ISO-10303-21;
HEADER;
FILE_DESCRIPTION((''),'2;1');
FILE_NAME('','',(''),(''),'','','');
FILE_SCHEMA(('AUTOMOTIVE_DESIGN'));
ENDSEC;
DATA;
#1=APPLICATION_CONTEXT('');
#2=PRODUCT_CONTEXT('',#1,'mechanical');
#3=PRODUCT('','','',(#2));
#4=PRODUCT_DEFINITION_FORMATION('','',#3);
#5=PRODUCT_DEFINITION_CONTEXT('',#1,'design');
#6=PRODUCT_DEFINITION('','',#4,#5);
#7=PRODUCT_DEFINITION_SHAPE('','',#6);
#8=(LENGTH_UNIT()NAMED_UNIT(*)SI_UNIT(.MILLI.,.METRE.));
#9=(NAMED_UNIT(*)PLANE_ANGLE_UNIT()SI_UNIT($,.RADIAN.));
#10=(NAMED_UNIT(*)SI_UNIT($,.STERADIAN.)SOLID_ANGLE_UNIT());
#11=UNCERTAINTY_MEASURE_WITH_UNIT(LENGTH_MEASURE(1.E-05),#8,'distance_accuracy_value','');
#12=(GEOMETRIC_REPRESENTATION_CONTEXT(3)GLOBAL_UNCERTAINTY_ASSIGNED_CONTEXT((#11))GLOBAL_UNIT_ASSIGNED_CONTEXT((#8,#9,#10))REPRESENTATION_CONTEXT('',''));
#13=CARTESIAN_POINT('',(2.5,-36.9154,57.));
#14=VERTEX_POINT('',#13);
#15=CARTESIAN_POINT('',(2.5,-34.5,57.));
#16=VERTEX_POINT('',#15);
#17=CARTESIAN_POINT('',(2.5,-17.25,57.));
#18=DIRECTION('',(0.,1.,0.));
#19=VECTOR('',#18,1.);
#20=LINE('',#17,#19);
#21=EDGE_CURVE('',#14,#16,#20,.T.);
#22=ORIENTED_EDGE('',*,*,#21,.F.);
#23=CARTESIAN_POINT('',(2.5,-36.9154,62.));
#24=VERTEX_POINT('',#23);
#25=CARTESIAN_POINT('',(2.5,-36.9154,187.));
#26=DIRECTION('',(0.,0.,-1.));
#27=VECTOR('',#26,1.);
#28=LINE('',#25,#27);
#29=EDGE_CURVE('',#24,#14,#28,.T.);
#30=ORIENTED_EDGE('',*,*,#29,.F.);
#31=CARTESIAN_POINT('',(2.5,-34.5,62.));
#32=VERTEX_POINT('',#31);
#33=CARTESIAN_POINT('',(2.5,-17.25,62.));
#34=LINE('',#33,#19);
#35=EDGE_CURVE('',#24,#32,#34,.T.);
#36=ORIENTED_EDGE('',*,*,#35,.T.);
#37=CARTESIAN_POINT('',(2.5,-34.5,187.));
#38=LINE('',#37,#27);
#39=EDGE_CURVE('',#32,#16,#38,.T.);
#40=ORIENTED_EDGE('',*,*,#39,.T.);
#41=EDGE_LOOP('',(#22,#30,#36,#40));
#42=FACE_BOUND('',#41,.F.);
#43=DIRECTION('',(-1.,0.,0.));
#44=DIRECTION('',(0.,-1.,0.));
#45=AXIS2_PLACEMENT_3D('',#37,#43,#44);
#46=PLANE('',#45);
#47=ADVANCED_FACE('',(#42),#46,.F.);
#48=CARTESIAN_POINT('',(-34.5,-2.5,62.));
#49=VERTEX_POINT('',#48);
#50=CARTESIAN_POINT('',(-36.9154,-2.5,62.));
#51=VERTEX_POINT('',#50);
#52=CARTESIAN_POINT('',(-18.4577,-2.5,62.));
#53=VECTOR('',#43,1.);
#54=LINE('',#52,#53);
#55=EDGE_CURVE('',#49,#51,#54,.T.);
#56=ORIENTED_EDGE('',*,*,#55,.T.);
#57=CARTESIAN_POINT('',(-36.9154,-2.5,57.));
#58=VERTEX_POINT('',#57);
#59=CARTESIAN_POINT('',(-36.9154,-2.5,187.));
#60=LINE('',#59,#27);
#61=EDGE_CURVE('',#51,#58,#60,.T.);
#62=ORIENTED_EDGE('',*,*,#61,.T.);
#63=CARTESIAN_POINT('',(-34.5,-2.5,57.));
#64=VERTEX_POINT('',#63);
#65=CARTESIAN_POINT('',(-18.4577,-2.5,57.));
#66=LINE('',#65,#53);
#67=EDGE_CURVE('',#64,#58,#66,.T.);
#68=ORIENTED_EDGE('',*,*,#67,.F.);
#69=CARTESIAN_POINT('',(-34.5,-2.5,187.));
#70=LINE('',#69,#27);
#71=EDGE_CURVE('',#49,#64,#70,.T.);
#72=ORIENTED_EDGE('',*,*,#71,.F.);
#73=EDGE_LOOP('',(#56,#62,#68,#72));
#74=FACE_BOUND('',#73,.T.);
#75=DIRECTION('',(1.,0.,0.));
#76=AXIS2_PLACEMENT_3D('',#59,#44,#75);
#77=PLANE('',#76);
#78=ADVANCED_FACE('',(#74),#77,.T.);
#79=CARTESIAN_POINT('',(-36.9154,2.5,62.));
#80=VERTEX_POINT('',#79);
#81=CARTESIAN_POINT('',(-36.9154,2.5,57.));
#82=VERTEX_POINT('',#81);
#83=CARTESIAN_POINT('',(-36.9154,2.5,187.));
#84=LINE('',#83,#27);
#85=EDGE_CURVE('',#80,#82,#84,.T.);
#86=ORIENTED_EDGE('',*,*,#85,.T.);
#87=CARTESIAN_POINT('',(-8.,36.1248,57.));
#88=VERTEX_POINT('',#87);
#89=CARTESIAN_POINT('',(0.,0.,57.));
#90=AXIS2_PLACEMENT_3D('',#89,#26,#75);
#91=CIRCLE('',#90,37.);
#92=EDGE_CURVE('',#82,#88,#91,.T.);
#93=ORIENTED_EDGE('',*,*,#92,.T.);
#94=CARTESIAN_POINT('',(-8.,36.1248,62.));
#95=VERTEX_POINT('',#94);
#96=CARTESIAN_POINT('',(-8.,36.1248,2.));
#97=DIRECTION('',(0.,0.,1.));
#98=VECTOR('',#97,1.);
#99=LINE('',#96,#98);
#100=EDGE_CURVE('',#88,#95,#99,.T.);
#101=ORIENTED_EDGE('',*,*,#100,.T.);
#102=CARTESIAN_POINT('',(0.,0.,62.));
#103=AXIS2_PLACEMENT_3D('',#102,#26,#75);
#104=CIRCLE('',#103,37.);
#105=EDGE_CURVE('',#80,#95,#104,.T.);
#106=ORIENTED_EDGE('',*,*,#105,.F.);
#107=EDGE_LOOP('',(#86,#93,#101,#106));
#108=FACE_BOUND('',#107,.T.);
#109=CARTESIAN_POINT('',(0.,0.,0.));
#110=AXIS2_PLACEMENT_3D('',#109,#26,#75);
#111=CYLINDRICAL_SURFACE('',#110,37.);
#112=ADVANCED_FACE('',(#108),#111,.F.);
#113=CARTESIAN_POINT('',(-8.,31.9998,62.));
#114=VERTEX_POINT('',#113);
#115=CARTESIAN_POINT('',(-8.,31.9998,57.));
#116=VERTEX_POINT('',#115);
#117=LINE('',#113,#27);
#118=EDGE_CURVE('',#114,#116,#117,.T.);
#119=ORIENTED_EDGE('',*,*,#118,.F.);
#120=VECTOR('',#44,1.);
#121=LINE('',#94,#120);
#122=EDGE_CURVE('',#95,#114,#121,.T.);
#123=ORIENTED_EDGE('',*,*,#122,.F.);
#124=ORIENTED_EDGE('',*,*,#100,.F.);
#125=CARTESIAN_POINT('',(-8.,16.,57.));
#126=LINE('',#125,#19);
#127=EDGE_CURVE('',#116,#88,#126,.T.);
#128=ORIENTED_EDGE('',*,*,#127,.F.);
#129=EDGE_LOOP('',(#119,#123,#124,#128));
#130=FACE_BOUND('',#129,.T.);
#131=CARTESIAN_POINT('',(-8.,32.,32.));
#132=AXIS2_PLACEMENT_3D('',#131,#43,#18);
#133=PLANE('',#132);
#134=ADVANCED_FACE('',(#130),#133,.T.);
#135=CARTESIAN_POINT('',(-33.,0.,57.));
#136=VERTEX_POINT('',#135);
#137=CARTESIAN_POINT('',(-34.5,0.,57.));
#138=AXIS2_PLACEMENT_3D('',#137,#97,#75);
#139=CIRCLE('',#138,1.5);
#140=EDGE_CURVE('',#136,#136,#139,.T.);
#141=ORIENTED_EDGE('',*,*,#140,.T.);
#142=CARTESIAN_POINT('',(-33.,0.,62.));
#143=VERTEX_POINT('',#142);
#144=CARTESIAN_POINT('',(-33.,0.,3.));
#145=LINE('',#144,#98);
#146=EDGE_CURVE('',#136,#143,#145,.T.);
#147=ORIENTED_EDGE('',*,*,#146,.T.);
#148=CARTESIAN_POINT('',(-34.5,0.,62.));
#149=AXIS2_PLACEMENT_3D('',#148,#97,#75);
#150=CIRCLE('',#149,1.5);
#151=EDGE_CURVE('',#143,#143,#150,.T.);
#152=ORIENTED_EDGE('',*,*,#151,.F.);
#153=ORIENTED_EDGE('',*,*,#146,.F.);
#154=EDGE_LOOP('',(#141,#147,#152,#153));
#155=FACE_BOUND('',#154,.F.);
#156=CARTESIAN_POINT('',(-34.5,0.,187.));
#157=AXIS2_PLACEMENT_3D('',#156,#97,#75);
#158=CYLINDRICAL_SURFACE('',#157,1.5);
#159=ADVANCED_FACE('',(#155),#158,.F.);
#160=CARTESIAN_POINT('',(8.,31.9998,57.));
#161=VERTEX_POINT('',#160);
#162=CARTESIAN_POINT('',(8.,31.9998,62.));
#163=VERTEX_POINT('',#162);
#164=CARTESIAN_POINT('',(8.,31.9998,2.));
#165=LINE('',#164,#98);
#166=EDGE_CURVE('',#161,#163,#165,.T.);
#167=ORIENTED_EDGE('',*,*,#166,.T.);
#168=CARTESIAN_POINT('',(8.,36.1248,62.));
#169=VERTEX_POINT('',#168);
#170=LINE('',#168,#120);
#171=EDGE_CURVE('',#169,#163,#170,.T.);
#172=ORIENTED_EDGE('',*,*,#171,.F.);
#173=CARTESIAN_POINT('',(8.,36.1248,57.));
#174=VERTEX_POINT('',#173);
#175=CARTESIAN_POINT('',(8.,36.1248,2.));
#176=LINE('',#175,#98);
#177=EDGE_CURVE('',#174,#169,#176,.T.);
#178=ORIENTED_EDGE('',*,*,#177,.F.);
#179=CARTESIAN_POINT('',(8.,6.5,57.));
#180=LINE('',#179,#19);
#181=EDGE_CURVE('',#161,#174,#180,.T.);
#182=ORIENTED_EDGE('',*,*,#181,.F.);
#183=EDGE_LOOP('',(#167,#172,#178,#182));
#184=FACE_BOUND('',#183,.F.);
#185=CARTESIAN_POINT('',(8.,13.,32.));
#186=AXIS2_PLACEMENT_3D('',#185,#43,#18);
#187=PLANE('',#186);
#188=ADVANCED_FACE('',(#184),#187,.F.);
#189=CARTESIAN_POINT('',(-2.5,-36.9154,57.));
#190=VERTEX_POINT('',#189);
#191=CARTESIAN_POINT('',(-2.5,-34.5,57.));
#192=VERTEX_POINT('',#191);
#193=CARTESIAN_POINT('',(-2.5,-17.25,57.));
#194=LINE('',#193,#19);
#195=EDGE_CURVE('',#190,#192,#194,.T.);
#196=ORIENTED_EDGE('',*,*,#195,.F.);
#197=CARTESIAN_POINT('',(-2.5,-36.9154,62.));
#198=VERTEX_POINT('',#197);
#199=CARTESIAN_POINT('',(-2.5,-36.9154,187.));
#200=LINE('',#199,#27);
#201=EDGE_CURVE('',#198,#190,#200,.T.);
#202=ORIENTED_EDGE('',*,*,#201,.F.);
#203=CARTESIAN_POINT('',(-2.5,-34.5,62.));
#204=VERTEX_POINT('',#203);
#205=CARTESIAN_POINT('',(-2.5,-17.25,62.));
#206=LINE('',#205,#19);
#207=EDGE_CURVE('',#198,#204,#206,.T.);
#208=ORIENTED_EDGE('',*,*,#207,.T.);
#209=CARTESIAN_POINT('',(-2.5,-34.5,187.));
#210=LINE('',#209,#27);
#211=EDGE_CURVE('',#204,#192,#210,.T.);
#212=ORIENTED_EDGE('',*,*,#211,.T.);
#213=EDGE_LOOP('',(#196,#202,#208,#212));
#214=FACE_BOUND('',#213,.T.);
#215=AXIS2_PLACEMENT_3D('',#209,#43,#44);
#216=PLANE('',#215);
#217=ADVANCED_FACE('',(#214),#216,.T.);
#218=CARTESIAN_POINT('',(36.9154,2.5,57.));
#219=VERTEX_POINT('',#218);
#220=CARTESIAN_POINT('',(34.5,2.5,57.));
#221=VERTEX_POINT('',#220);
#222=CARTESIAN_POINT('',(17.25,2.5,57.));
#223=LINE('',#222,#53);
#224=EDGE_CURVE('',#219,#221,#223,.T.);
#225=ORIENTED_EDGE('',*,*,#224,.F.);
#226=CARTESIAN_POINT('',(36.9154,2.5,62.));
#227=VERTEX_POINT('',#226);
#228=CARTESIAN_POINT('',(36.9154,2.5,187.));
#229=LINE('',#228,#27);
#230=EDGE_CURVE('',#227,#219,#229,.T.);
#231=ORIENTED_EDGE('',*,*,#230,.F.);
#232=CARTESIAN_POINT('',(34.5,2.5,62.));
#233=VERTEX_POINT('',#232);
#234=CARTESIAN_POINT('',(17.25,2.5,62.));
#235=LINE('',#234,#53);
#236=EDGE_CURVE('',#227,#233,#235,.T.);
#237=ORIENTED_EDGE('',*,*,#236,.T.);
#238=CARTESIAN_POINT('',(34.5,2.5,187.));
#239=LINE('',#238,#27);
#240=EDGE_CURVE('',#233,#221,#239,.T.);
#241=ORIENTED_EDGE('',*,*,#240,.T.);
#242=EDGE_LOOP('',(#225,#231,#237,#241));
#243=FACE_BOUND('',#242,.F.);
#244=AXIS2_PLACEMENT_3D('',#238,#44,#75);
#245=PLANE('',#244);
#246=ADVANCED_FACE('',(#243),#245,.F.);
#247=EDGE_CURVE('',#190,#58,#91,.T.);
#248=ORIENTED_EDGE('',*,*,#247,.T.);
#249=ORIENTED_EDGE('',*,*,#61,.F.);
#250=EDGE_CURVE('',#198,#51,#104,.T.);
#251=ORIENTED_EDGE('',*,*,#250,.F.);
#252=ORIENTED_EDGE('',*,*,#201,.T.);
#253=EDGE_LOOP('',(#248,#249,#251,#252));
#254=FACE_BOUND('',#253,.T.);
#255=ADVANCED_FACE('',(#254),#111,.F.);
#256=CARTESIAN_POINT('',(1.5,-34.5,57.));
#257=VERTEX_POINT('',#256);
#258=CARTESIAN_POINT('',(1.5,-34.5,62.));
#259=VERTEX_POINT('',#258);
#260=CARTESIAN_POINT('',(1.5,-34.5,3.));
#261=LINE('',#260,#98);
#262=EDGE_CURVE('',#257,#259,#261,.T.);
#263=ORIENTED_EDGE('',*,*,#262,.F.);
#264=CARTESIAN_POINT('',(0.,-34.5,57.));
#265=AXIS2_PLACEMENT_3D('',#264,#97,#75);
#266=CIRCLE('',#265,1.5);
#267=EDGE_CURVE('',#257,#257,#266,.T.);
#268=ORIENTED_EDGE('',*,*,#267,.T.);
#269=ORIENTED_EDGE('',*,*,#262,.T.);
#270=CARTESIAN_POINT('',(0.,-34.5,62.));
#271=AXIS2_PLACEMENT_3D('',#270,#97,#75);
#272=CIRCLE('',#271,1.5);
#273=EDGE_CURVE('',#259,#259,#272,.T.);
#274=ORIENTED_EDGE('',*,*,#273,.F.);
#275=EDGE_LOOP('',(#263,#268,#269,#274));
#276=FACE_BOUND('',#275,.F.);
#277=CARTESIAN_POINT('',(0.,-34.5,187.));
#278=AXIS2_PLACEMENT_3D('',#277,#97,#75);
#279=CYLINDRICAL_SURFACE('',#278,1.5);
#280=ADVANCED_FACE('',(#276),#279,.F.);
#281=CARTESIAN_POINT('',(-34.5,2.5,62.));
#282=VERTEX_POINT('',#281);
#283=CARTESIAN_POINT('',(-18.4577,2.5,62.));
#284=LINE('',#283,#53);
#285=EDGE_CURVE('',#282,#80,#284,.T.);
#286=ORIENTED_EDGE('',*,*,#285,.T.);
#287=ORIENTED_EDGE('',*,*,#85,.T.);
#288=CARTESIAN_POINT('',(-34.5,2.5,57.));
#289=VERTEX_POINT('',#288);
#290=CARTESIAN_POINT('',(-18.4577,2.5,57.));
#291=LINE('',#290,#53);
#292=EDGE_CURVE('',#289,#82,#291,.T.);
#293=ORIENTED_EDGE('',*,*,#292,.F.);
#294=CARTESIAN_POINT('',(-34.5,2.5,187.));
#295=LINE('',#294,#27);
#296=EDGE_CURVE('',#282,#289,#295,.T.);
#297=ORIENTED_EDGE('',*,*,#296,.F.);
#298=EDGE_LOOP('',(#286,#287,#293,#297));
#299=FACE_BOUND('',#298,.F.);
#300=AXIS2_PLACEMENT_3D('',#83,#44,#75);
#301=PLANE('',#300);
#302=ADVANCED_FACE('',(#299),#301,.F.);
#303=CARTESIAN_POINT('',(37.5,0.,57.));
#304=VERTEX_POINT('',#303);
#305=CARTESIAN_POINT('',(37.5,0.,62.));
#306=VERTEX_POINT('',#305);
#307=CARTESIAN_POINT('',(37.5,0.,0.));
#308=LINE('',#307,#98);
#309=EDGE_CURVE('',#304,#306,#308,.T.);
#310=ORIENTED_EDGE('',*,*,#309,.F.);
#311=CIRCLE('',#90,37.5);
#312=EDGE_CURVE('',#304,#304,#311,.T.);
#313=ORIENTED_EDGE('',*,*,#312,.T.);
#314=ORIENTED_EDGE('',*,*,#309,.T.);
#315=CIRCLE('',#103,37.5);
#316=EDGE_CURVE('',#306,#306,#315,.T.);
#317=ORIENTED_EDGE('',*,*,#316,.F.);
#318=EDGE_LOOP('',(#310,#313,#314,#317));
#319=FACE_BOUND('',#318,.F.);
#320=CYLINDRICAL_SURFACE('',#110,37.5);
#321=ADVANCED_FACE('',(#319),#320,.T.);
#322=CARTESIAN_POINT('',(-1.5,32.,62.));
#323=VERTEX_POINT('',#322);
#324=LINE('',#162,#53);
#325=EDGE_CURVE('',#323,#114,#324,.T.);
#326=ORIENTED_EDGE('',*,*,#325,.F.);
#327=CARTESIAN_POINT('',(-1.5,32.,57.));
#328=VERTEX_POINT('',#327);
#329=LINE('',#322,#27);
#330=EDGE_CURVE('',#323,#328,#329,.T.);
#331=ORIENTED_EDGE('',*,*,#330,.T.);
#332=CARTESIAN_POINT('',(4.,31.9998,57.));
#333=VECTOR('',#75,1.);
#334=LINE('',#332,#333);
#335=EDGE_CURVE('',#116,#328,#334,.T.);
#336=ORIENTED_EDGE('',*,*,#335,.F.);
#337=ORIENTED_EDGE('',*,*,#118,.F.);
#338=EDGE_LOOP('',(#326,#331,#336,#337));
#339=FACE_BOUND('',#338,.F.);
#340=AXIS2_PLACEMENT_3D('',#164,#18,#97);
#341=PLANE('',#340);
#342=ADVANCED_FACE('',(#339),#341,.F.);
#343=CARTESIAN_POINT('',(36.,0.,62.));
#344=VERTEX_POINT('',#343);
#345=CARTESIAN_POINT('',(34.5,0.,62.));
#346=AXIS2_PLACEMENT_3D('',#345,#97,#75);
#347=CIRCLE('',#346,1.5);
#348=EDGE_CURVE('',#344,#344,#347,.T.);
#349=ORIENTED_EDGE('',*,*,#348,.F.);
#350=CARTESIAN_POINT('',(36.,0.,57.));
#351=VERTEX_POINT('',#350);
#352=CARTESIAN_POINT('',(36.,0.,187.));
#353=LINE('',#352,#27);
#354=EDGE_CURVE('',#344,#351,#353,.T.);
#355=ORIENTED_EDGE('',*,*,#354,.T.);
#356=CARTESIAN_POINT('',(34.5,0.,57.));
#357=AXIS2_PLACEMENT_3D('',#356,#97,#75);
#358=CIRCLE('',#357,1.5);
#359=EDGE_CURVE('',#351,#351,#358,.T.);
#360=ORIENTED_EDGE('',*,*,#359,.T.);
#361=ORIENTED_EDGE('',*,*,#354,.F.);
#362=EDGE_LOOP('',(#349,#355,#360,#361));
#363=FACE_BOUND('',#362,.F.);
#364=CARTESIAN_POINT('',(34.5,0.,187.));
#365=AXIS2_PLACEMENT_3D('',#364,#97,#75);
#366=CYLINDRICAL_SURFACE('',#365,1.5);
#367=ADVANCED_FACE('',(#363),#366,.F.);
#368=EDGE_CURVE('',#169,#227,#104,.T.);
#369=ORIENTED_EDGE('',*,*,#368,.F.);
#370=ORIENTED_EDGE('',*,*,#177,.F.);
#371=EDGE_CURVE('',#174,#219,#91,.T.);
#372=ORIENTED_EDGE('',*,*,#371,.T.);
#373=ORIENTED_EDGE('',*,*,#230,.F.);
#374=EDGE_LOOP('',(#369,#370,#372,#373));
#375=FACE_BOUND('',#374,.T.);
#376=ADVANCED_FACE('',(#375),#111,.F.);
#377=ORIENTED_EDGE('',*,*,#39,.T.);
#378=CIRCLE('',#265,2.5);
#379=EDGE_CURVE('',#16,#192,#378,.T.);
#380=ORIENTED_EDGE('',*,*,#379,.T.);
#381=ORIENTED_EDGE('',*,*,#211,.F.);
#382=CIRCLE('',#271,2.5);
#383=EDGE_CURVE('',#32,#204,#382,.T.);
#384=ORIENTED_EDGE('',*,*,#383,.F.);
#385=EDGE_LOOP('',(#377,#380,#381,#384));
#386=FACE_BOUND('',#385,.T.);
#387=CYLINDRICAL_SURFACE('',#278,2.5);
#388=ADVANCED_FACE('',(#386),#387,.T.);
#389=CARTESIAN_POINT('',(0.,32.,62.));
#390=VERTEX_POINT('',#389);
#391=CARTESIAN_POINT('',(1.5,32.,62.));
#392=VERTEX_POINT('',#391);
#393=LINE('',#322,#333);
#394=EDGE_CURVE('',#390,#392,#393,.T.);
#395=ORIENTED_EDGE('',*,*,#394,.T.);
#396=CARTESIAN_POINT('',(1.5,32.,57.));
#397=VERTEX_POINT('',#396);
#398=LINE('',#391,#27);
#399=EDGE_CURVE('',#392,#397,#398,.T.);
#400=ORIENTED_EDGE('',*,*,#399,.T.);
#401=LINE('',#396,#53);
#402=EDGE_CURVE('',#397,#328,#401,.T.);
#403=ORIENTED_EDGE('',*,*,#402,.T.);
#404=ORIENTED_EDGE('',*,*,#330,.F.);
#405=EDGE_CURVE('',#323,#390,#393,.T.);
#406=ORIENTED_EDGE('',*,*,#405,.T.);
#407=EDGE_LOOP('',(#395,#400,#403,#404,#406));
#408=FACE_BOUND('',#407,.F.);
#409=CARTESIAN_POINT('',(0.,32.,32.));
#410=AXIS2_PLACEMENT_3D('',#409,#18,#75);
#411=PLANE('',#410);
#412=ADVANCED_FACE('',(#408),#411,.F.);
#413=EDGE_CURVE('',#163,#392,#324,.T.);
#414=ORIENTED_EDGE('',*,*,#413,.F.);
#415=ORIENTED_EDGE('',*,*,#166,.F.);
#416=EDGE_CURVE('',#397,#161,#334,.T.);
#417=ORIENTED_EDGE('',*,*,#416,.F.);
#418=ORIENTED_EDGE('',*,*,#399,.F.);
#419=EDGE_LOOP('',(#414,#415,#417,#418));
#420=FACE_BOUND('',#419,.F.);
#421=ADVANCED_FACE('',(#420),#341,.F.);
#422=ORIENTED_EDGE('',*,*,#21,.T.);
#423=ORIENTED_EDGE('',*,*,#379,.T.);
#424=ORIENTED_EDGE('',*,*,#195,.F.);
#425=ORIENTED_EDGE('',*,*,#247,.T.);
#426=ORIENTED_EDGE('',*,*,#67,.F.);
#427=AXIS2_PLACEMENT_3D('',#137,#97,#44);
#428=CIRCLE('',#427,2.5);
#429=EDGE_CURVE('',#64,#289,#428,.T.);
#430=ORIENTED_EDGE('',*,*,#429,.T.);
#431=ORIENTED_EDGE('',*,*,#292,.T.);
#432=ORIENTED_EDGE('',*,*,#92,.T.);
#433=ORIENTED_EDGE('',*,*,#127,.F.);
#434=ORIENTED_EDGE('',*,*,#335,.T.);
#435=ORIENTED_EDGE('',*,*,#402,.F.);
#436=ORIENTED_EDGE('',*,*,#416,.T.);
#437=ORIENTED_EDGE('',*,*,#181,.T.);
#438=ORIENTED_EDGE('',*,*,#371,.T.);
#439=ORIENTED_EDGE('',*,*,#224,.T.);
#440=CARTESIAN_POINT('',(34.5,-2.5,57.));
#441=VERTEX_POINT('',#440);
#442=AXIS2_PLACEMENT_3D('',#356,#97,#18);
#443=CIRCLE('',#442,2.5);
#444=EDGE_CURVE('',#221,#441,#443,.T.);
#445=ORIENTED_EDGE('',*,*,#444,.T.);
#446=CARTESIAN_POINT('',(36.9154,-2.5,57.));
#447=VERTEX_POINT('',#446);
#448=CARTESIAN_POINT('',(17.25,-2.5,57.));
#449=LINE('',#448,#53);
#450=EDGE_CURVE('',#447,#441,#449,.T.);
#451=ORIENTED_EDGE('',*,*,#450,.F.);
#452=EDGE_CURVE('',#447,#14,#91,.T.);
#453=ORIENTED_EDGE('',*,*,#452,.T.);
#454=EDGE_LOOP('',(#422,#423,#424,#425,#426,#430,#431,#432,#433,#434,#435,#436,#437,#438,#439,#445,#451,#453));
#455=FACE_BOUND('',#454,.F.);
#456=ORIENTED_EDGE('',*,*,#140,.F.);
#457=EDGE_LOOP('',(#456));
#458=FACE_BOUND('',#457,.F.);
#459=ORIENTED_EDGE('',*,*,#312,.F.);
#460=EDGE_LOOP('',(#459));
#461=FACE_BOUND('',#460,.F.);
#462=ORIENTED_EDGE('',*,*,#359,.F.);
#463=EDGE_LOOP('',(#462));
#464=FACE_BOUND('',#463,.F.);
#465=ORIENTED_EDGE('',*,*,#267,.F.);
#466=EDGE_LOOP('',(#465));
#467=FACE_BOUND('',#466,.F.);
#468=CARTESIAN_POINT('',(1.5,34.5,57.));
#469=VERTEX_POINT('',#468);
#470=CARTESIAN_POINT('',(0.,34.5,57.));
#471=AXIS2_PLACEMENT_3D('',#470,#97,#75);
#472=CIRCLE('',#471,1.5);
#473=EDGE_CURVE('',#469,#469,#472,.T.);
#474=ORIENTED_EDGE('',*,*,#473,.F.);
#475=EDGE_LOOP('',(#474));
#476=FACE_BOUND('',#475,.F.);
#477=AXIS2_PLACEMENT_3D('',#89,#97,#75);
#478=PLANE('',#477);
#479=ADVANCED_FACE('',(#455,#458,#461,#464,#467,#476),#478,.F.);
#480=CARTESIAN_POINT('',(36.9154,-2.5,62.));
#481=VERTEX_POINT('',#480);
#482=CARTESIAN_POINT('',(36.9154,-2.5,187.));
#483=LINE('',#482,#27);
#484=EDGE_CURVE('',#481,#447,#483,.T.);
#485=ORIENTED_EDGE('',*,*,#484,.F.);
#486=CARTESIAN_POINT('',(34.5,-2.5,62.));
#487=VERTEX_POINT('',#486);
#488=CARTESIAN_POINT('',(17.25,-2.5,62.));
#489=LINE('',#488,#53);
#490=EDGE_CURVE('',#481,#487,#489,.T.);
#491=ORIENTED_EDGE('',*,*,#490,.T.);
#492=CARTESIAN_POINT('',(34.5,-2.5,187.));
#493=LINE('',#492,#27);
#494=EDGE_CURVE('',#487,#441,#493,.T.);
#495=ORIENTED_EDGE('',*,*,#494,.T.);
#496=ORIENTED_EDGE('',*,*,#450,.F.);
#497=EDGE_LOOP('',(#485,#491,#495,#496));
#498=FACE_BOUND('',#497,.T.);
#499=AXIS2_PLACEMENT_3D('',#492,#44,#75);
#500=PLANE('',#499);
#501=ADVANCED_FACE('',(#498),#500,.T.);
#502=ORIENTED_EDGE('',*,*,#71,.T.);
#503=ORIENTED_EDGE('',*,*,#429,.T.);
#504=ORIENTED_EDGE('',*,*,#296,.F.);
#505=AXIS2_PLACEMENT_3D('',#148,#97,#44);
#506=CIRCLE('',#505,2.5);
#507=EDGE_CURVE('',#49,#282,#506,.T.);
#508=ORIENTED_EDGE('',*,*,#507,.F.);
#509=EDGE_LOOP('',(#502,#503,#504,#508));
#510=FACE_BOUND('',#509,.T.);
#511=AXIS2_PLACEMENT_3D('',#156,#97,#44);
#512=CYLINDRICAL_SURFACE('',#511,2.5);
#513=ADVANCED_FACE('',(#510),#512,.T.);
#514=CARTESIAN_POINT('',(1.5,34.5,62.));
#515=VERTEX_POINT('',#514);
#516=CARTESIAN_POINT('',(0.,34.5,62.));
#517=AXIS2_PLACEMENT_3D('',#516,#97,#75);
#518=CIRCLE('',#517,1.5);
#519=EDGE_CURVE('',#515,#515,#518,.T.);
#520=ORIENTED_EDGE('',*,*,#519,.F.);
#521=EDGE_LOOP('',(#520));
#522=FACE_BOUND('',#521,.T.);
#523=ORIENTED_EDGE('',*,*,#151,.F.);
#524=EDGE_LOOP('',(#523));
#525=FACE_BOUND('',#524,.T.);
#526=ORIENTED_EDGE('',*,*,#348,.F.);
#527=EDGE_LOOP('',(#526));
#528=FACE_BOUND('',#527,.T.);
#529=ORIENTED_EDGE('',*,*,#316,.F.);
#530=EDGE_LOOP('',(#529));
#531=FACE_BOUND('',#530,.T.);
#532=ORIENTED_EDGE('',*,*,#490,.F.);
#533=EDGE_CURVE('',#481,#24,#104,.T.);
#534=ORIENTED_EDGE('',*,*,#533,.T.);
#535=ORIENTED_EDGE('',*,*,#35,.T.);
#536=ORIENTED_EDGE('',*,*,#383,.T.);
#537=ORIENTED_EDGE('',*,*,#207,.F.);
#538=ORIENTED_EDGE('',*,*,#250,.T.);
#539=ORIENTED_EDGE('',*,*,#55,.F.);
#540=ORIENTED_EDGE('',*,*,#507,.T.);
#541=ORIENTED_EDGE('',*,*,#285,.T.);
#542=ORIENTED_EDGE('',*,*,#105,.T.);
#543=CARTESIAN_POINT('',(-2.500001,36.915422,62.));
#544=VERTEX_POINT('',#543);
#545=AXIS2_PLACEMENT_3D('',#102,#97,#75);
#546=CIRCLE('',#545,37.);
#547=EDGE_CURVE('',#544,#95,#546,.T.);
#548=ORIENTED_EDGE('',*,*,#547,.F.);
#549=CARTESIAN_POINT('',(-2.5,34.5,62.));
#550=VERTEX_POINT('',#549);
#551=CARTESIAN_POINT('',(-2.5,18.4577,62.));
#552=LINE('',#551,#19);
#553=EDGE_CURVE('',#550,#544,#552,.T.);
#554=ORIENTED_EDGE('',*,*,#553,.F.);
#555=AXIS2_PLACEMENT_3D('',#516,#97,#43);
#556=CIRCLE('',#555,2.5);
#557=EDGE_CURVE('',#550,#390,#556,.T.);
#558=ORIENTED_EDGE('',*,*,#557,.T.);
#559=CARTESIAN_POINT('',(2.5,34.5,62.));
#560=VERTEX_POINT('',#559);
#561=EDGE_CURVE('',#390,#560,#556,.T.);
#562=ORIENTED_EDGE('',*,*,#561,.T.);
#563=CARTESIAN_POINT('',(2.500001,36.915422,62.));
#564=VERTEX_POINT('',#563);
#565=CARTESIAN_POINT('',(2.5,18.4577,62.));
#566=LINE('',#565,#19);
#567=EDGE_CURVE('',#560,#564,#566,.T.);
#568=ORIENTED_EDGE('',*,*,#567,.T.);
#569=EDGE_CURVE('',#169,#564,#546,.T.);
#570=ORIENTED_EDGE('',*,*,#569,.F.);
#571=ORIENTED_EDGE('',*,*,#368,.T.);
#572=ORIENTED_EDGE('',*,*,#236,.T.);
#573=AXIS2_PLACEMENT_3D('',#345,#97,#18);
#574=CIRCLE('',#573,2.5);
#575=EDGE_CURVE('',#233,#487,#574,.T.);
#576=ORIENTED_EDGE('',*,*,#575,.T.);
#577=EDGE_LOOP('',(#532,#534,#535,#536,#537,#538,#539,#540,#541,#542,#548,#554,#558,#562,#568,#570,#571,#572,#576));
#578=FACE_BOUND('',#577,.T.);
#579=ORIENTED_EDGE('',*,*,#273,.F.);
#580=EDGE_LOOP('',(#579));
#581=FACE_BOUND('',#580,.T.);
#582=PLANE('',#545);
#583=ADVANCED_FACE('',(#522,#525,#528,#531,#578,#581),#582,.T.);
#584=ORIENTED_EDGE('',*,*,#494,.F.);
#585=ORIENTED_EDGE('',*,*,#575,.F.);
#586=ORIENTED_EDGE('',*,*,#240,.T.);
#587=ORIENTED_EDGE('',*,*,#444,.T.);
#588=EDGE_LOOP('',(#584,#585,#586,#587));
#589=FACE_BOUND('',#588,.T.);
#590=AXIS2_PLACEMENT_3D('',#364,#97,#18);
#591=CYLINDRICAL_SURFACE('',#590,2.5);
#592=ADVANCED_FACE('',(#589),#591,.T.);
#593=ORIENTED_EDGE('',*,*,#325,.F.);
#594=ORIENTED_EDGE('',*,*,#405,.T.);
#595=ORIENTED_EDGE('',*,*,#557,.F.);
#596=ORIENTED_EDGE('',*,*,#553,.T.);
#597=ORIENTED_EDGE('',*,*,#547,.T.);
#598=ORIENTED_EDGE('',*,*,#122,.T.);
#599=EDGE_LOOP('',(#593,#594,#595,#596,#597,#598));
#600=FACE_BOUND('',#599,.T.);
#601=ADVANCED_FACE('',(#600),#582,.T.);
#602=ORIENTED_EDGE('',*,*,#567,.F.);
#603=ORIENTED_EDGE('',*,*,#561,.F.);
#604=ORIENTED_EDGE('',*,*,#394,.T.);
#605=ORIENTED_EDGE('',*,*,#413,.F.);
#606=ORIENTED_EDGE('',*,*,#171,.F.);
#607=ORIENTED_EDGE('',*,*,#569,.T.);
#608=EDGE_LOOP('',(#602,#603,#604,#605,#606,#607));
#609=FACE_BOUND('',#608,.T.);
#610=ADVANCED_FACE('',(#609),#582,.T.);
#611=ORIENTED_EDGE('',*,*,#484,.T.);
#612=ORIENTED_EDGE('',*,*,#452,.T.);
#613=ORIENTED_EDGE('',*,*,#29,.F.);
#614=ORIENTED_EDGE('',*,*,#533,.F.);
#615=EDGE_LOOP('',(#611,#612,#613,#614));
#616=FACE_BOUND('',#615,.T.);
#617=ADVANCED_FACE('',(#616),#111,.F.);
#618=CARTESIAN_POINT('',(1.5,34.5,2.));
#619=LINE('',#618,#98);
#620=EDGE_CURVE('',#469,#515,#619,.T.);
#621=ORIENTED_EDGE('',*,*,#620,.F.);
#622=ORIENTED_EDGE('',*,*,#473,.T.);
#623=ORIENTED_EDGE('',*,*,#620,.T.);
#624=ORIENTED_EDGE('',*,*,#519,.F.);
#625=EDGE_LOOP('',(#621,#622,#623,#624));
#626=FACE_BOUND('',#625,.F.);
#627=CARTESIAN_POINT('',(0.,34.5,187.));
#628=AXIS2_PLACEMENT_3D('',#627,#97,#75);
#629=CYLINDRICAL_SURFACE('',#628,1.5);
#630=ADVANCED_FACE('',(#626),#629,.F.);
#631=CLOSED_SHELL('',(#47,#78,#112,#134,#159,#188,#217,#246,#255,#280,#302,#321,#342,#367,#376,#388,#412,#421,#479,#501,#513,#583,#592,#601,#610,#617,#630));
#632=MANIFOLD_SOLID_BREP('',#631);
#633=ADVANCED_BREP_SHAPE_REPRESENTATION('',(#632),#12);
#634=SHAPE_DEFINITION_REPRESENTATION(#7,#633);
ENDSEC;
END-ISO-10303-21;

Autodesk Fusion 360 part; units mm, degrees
sketch "Esboço2" plane through (0, 0, 0) normal (0, 0, 1) x (1, 0, 0)
  circle A0 centre (0, 0) radius 37.5
  circle A1 centre (0, 0) radius 37
  dimension "d6" = 75
  dimension "d7" = 74
extrude "Extrusão2" add sketch "Esboço2" along normal blind 190
ref_plane "Plano de trabalho9" through (0, 0, 187) normal (0, 0, 1) x (1, 0, 0)
sketch "Esboço10" plane through (0, 0, 187) normal (0, 0, 1) x (1, 0, 0)
  circle A0 centre (0, 0) radius 34.5 construction
  line L0 (0, 0) -> (-68.1762, 0) construction
  line L1 (0, 0) -> (60, 0) construction
  line L2 (0, 0) -> (0, 45) construction
  line L3 (0, 0) -> (0, -43.1659) construction
  circle A1 centre (34.5, 0) radius 1.5
  line L4 (3, -43) -> (3, -42)
  circle A2 centre (0, 34.5) radius 1.5
  circle A3 centre (-34.5, 0) radius 1.5
  circle A4 centre (0, -34.5) radius 1.5
  arc A5 (34.5, 2.5) -> (34.5, -2.5) centre (34.5, 0) ccw
  arc A6 (-2.5, 34.5) -> (2.5, 34.5) centre (0, 34.5) ccw
  arc A7 (-34.5, -2.5) -> (-34.5, 2.5) centre (-34.5, 0) ccw
  arc A8 (2.5, -34.5) -> (-2.5, -34.5) centre (0, -34.5) ccw
  circle A9 centre (0, 0) radius 37
  line L5 (-36.9154, 2.5) -> (-34.4093, 2.5)
  line L6 (-36.9154, -2.5) -> (-34.4093, -2.5)
  line L7 (34.5, 2.5) -> (36.9154, 2.5)
  line L8 (34.5, -2.5) -> (36.9154, -2.5)
  line L9 (2.5, 36.9154) -> (2.5, 34.4093)
  line L10 (-2.5, 36.9154) -> (-2.5, 34.4093)
  line L11 (-2.5, -34.4093) -> (-2.5, -36.9154)
  line L12 (2.5, -34.4093) -> (2.5, -36.9154)
  dimension "d82" = 69
  dimension "d83" = 3
  dimension "d84" = 2.5
  dimension "d85" = 2.5
  dimension "d87" = 360
  dimension "d89" = 360
  dimension "d90" = 2.5
extrude "Extrusão12" add sketch "Esboço10" against normal blind 184 contours A5 A9 L7 L8 | A6 A9 L9 L10 | A8 A9 L11 L12 | A7 A9 L5 L6
thread "Rosca3"
ref_plane "Plano de trabalho3" through (0, 0, 32) normal (0, 0, 1) x (1, 0, 0)
sketch "Esboço3" plane through (0, 0, 32) normal (0, 0, 1) x (1, 0, 0)
  line L0 (0, 0) -> (0, 37) construction
  line L1 (34.2491, 14) -> (-34.2491, 14)
  circle A0 centre (0, 0) radius 37
  line L2 (31.1288, 20) -> (-31.1288, 20)
  line L3 (32.8634, 17) -> (-32.8634, 17)
  circle A1 centre (0, 0) radius 50
  circle A2 centre (0, 0) radius 37.5
  line L4 (-8, 0) -> (8, 0)
  line L5 (8, 0) -> (8, 36.1248)
  line L6 (-8, 0) -> (-8, 36.1248)
  circle A3 centre (0, 34.5) radius 1.5
  line L7 (1.5, 32.5) -> (1.5, 0)
  arc A4 (-2.5, 34.5) -> (2.5, 34.5) centre (0, 34.5) ccw
  line L8 (-1.5, 32.5) -> (-1.5, 0)
  line L9 (27.8634, 24.3441) -> (27.8634, 11)
  line L10 (27.8634, 11) -> (35.327, 11)
  line L11 (-27.8634, 11) -> (-35.327, 11)
  line L12 (-27.8634, 24.3441) -> (-27.8634, 11)
  line L13 (-30.4631, 21) -> (30.4631, 21)
  line L14 (-34.641, 13) -> (34.641, 13)
  line L15 (0, 32) -> (8, 32)
  line L16 (0, 32) -> (-8, 32)
  dimension "d12" = 6
  dimension "d15" = 3
  dimension "d17" = 75
  dimension "d18" = 100
  dimension "d41" = 14
  dimension "d51" = 8
  dimension "d52" = 16
  dimension "d99" = 3
  dimension "d100" = 2.5
  dimension "d115" = 6.5
  dimension "d123" = 5
  dimension "d124" = 6
  dimension "d143" = 4
  dimension "d144" = 4
extrude "Extrusão21" add sketch "Esboço3" along normal blind 6 and the other way blind 6 contours L1 A0 L9 L14 | L1 A0 L3 L9 | A0 L9 L10 L14 | A0 L2 L3 L9 | A0 L2 L9 L13 | A0 L9 L13 | A0 L11 L12 L14 | L1 A0 L12 L14 | L1 A0 L3 L12 | A0 L2 L3 L12 | A0 L12 L13 | A0 L2 L12 L13
sketch "Esboço18" plane through (-27.8634, 0, 0) normal (1, 0, 0) x (0, 1, 0)
  line L0 (24.3441, 26) -> (24.3441, 38)
  line L1 (24.3441, 38) -> (11, 38)
  line L2 (11, 38) -> (11, 26)
  line L3 (11, 26) -> (24.3441, 26)
  circle A0 centre (17, 32) radius 4
  point P0 (11, 32)
  dimension "d166" = 8
  dimension "d167" = 6
  dimension "d168" = 6
ref_plane "Plano de trabalho11" through (0, 0, 0) normal (1, 0, 0) x (0, 1, 0)
extrude "Extrusão23" cut sketch "Esboço18" against normal blind 15 contours A0
extrude "Extrusão7" add sketch "Esboço3" along normal blind 30 and the other way blind 30 contours L1 L5 L7 L14 | L1 L3 L5 L7 | L4 L5 L7 L14 | L2 L3 L5 L7 | L1 L6 L8 L14 | L1 L3 L6 L8 | L2 L5 L7 L13 | L2 L3 L6 L8 | L4 L6 L8 L14 | L5 L7 L13 L15 | A0 L5 L6 L7 A4 L8 L15 L16 | L2 L6 L8 L13 | L6 L8 L13 L16 | L7 A4 L15 | A4 L8 L16
sketch "Esboço19" plane through (27.8634, 0, 0) normal (-1, 0, 0) x (0, -1, 0)
  line L0 (-11, 26) -> (-11, 38)
  line L1 (-11, 38) -> (-24.3441, 38)
  line L2 (-24.3441, 38) -> (-24.3441, 26)
  line L3 (-24.3441, 26) -> (-11, 26)
extrude "Extrusão24" cut sketch "Esboço18" along normal blind 80 contours A0
sketch "Esboço11" plane through (8, 0, 0) normal (1, 0, 0) x (0, 1, 0)
  line L0 (0, 2) -> (36.1248, 2)
  line L1 (36.1248, 2) -> (36.1248, 62)
  line L2 (36.1248, 62) -> (0, 62)
  line L3 (0, 62) -> (0, 2)
  circle A0 centre (17, 32) radius 3
  circle A1 centre (17, 32) radius 9.5
  circle A2 centre (17, 32) radius 12.5
  line L4 (36.1248, 32) -> (36.1248, -5) construction
  line L5 (0, 32) -> (36.1248, 32)
  line L6 (30.1248, 2) -> (8.3278, 22.9976)
  line L7 (30.1248, 62) -> (8.3278, 41.0024)
  line L8 (30.1248, 2) -> (31.9998, 2)
  line L9 (31.9998, 2) -> (31.9998, 32)
  line L10 (30.1248, 62) -> (31.9998, 62)
  line L11 (31.9998, 62) -> (31.9998, 32)
  circle A3 centre (17, 32) radius 4
  point P0 (14, 32)
  point P1 (20, 32)
  dimension "d106" = 6
  dimension "d107" = 19
  dimension "d109" = 25
  dimension "d110" = 6
  dimension "d147" = 1.875
extrude "Extrusão13" cut sketch "Esboço11" against normal blind 16 contours L0 L3 A2 L5 L6 | L0 A2 L5 L6 L8 L9 | L2 L3 A2 L5 L7 | A1 A2 L5 | A1 A2 L5 | L2 A2 L5 L7 L10 L11 | A1 L5 A3 | A1 L5 A3 | A0 L5 A3 | A0 L5 A3 | A0 L5 | A0 L5
ref_plane "Plano de trabalho4" through (0, 0, 150) normal (0, 0, 1) x (1, 0, 0)
sketch "Esboço4" plane through (0, 0, 150) normal (0, 0, 1) x (1, 0, 0)
  circle A0 centre (0, 0) radius 37
  circle A1 centre (0, 0) radius 50
  circle A2 centre (0, 0) radius 37.5
  line L0 (-20, -31.1288) -> (-20, 31.1288)
  line L1 (-17, -32.8634) -> (-17, 32.8634)
  line L2 (-14, -34.2491) -> (-14, 34.2491)
  line L3 (0, 8) -> (0, -8)
  line L4 (0, 8) -> (-36.1248, 8)
  line L5 (0, -8) -> (-36.1248, -8)
  line L6 (0, 0) -> (-37, 0) construction
  circle A3 centre (-34.5, 0) radius 1.5
  line L7 (0, 1.5) -> (-32.5, 1.5)
  arc A4 (-34.5, -2.5) -> (-34.5, 2.5) centre (-34.5, 0) ccw
  line L8 (0, -1.5) -> (-32.5, -1.5)
  line L9 (-24.3441, -27.8634) -> (-11, -27.8634)
  line L10 (-11, -27.8634) -> (-11, -35.327)
  line L11 (-24.3441, 27.8634) -> (-11, 27.8634)
  line L12 (-11, 27.8634) -> (-11, 35.327)
  line L13 (-13, 34.641) -> (-13, -34.641)
  line L14 (-21, 30.4631) -> (-21, -30.4631)
  line L15 (-32, 0) -> (-32, 8)
  line L16 (-32, 0) -> (-32, -8)
  dimension "d28" = 75
  dimension "d29" = 100
  dimension "d38" = 14
  dimension "d39" = 6
  dimension "d40" = 3
  dimension "d43" = 16
  dimension "d44" = 8
  dimension "d101" = 3
  dimension "d102" = 2.5
  dimension "d116" = 6.5
  dimension "d135" = 6
  dimension "d136" = 5
  dimension "d145" = 4
  dimension "d146" = 4
extrude "Extrusão25" add sketch "Esboço4" along normal blind 6 and the other way blind 6 contours A0 L11 L12 L13 | A0 L9 L10 L13 | A0 L2 L11 L13 | A0 L2 L9 L13 | A0 L1 L2 L11 | A0 L1 L2 L9 | A0 L0 L1 L11 | A0 L0 L1 L9 | A0 L0 L11 L14 | A0 L0 L9 L14 | A0 L11 L14 | A0 L9 L14
sketch "Esboço20" plane through (0, 27.8634, 0) normal (0, -1, 0) x (1, 0, 0)
  line L0 (-11, 144) -> (-11, 156)
  line L1 (-11, 156) -> (-24.3441, 156)
  line L2 (-24.3441, 156) -> (-24.3441, 144)
  line L3 (-24.3441, 144) -> (-11, 144)
  circle A0 centre (-17, 150) radius 4
  dimension "d179" = 8
  dimension "d180" = 6
  dimension "d182" = 6
extrude "Extrusão26" cut sketch "Esboço20" against normal blind 15 contours A0
sketch "Esboço21" plane through (0, -27.8634, 0) normal (0, 1, 0) x (-1, 0, 0)
  line L0 (24.3441, 144) -> (24.3441, 156)
  line L1 (24.3441, 156) -> (11, 156)
  line L2 (11, 156) -> (11, 144)
  line L3 (11, 144) -> (24.3441, 144)
  circle A0 centre (17, 150) radius 4
  dimension "d185" = 8
  dimension "d186" = 6
  dimension "d187" = 6
extrude "Extrusão27" cut sketch "Esboço21" against normal blind 15 contours A0
extrude "Extrusão6" add sketch "Esboço4" along normal blind 30 and the other way blind 30 contours L2 L4 L7 L13 | L3 L4 L7 L13 | L3 L5 L8 L13 | L2 L5 L8 L13 | L1 L2 L4 L7 | L1 L2 L5 L8 | L0 L1 L4 L7 | L0 L1 L5 L8 | L0 L4 L7 L14 | L0 L5 L8 L14 | A0 L4 L5 L7 A4 L8 L15 L16 | L4 L7 L14 L15 | L5 L8 L14 L16 | L7 A4 L15 | A4 L8 L16
sketch "Esboço13" plane through (0, -8, 0) normal (0, -1, 0) x (1, 0, 0)
  line L0 (0, 120) -> (0, 180)
  line L1 (0, 180) -> (-36.1248, 180)
  line L2 (-36.1248, 180) -> (-36.1248, 120)
  line L3 (-36.1248, 120) -> (0, 120)
  circle A0 centre (-17, 150) radius 3
  circle A1 centre (-17, 150) radius 9.5
  circle A2 centre (-17, 150) radius 12.5
  line L4 (-36.1248, 150) -> (-36.1248, 198.4836) construction
  line L5 (-30.1248, 180) -> (-6.6704, 157.4058)
  line L6 (0, 150) -> (-36.1248, 150)
  line L7 (-30.1248, 120) -> (-6.6704, 142.5942)
  line L8 (-30.1248, 180) -> (-31.9998, 180)
  line L9 (-31.9998, 180) -> (-31.9998, 150)
  line L10 (-30.1248, 120) -> (-31.9998, 120)
  line L11 (-31.9998, 120) -> (-31.9998, 150)
  point P0 (-14, 150)
  point P1 (-20, 150)
  dimension "d117" = 6
  dimension "d118" = 19
  dimension "d119" = 25
  dimension "d120" = 6
  dimension "d148" = 1.875
extrude "Extrusão14" cut sketch "Esboço13" against normal blind 16 contours L0 L3 A2 L6 L7 | L0 L1 A2 L5 L6 | L3 A2 L6 L7 L10 L11 | A1 A2 L6 | A1 A2 L6 | L1 A2 L5 L6 L8 L9 | A0 A1 L6 | A0 A1 L6 | A0 L6 | A0 L6
ref_plane "Plano de trabalho5" through (0, 0, 0) normal (1, 0, 0) x (0, 1, 0)
ref_plane "Plano de trabalho6" through (0, 0, 0) normal (0, 1, 0) x (0, 0, 1)
ref_plane "Plano de trabalho7" through (0, 0, 134.3) normal (0, 0, 1) x (1, 0, 0)
sketch "Esboço8" plane through (0, 0, 134.3) normal (0, 0, 1) x (1, 0, 0)
  line L0 (46.3444, 0) -> (0, 0) construction
  line L1 (8, 36.1248) -> (8, -36.1248)
  line L2 (-8, -36.1248) -> (-8, 36.1248)
  circle A0 centre (0, 0) radius 37
  line L3 (0, 0) -> (0, 37) construction
  circle A1 centre (0, 34.5) radius 1.5
  circle A2 centre (0, -34.5) radius 1.5
  dimension "d72" = 8
  dimension "d73" = 8
  dimension "d95" = 2.5
  dimension "d96" = 3
extrude "Extrusão10" add sketch "Esboço8" along normal blind 2 contours L1 L2 A0
ref_plane "Plano de trabalho8" through (0, 0, 45.7) normal (0, 0, 1) x (1, 0, 0)
sketch "Esboço9" plane through (0, 0, 45.7) normal (0, 0, 1) x (1, 0, 0)
  line L0 (0, 0) -> (-37, 0) construction
  line L1 (-36.1248, 8) -> (36.1248, 8)
  line L2 (-36.1248, -8) -> (36.1248, -8)
  circle A0 centre (0, 0) radius 37
  circle A1 centre (-34.5, 0) radius 1.5
  line L3 (0, 0) -> (0, 43.2459) construction
  circle A2 centre (34.5, 0) radius 1.5
  dimension "d77" = 8
  dimension "d78" = 8
  dimension "d97" = 3
  dimension "d98" = 2.5
extrude "Extrusão11" add sketch "Esboço9" along normal blind 2 contours L1 L2 A0
ref_plane "Plano de trabalho10" through (8, 18.0624, 32) normal (1, 0, 0) x (0, 1, 0)
sketch "Esboço16" plane through (-31.9998, 0, 0) normal (1, 0, 0) x (0, 1, 0)
  line L0 (1.5, 180) -> (1.5, 120)
  line L1 (1.5, 120) -> (8, 120)
  line L2 (8, 120) -> (8, 180)
  line L3 (8, 180) -> (1.5, 180)
  line L4 (4.75, 180) -> (4.75, 120) construction
  circle A0 centre (4.75, 170) radius 1.5
  circle A1 centre (4.75, 130) radius 1.5
  line L5 (8, 150) -> (-12.335, 150) construction
  line L6 (0, 2.5) -> (0, 20)
  circle A2 centre (-4.75, 170) radius 1.5
  circle A3 centre (-4.75, 130) radius 1.5
  dimension "d149" = 3
  dimension "d150" = 3
  dimension "d151" = 40
  dimension "d152" = 20
extrude "Extrusão19" cut sketch "Esboço16" against normal blind 10 contours A0 | A1 | A2 | A3
sketch "Esboço17" plane through (0, 31.9998, 0) normal (0, -1, 0) x (1, 0, 0)
  line L0 (1.5, 62) -> (1.5, 2)
  line L1 (1.5, 2) -> (8, 2)
  line L2 (8, 2) -> (8, 62)
  line L3 (8, 62) -> (1.5, 62)
  line L4 (4.75, 2) -> (4.75, 62) construction
  line L5 (8, 32) -> (-12, 32) construction
  circle A0 centre (4.75, 52) radius 1.5
  circle A1 centre (4.75, 12) radius 1.5
  line L6 (0, 1.75) -> (0, 22.5)
  circle A2 centre (-4.75, 12) radius 1.5
  circle A3 centre (-4.75, 52) radius 1.5
  dimension "d155" = 3
  dimension "d156" = 3
  dimension "d157" = 40
  dimension "d158" = 20
extrude "Extrusão20" cut sketch "Esboço17" against normal blind 10 contours A0 | A1 | A2 | A3
thread "Rosca4"
thread "Rosca5"
sketch "Esboço22" plane through (0, 0, 136.3) normal (0, 0, 1) x (-1, 0, 0)
  line L0 (2.5, 36.9154) -> (2.5, 34.5)
  arc A0 (-2.5, 34.5) -> (2.5, 34.5) centre (0, 34.5) ccw
  line L1 (-2.5, 34.5) -> (-2.5, 36.9154)
  arc A1 (-2.5, 36.9154) -> (-8, 36.1248) centre (0, 0) ccw
  line L2 (-8, 36.1248) -> (-8, -36.1248)
  arc A2 (-8, -36.1248) -> (-2.5, -36.9154) centre (0, 0) ccw
  line L3 (-2.5, -36.9154) -> (-2.5, -34.5)
  arc A3 (2.5, -34.5) -> (-2.5, -34.5) centre (0, -34.5) ccw
  line L4 (2.5, -34.5) -> (2.5, -36.9154)
  arc A4 (2.5, -36.9154) -> (8, -36.1248) centre (0, 0) ccw
  line L5 (8, -36.1248) -> (8, 36.1248)
  arc A5 (8, 36.1248) -> (2.5, 36.9154) centre (0, 0) ccw
  line L6 (0, 0) -> (-21, 0) construction
  line L7 (0, 0) -> (0, -19.3) construction
  line L8 (2, -15.8) -> (-2, -15.8)
  arc A6 (-2, -15.8) -> (-2, -22.8) centre (-2, -19.3) ccw
  line L9 (-2, -22.8) -> (2, -22.8)
  arc A7 (2, -22.8) -> (2, -15.8) centre (2, -19.3) ccw
  line L10 (2, -19.3) -> (-2, -19.3) construction
  arc A8 (-2, 22.8) -> (-2, 15.8) centre (-2, 19.3) ccw
  line L11 (2, 15.8) -> (-2, 15.8)
  arc A9 (2, 15.8) -> (2, 22.8) centre (2, 19.3) ccw
  line L12 (-2, 22.8) -> (2, 22.8)
  circle A10 centre (0, 10.8) radius 1.5 construction
  line L13 (2, 19.3) -> (-2, 19.3) construction
  line L14 (2, 12.3) -> (-2, 12.3)
  arc A11 (-2, 12.3) -> (-2, 9.3) centre (-2, 10.8) ccw
  line L15 (-2, 9.3) -> (2, 9.3)
  arc A12 (2, 9.3) -> (2, 12.3) centre (2, 10.8) ccw
  line L16 (2, 10.8) -> (-2, 10.8) construction
  line L17 (2, 26.3) -> (-2, 26.3)
  arc A13 (2, 26.3) -> (2, 29.3) centre (2, 27.8) ccw
  line L18 (-2, 29.3) -> (2, 29.3)
  arc A14 (-2, 29.3) -> (-2, 26.3) centre (-2, 27.8) ccw
  arc A15 (2, -29.3) -> (2, -26.3) centre (2, -27.8) ccw
  line L19 (2, -26.3) -> (-2, -26.3)
  arc A16 (-2, -26.3) -> (-2, -29.3) centre (-2, -27.8) ccw
  line L20 (-2, -29.3) -> (2, -29.3)
  arc A17 (2, -12.3) -> (2, -9.3) centre (2, -10.8) ccw
  line L21 (-2, -9.3) -> (2, -9.3)
  arc A18 (-2, -9.3) -> (-2, -12.3) centre (-2, -10.8) ccw
  line L22 (2, -12.3) -> (-2, -12.3)
  point P0 (0, -19.3)
  point P1 (0, 10.8)
  dimension "d191" = 19.3
  dimension "d195" = 2
  dimension "d196" = 3.5
  dimension "d204" = 3
  dimension "d205" = 8.5
  dimension "d230" = 1.5
  dimension "d231" = 4
extrude "Extrusão28" cut sketch "Esboço22" against normal blind 5 contours L8 A6 L9 A7 | A8 L11 A9 L12 | L14 A11 L15 A12 | L17 A13 L18 A14 | A15 L19 A16 L20 | A17 L21 A18 L22
sketch "Esboço23" plane through (0, 0, 45.7) normal (0, 0, -1) x (1, 0, 0)
  line L0 (36.9154, -2.5) -> (34.5, -2.5)
  arc A0 (34.5, 2.5) -> (34.5, -2.5) centre (34.5, 0) ccw
  line L1 (34.5, 2.5) -> (36.9154, 2.5)
  arc A1 (36.9154, 2.5) -> (36.1248, 8) centre (0, 0) ccw
  line L2 (36.1248, 8) -> (-36.1248, 8)
  arc A2 (-36.1248, 8) -> (-36.9154, 2.5) centre (0, 0) ccw
  line L3 (-36.9154, 2.5) -> (-34.5, 2.5)
  arc A3 (-34.5, -2.5) -> (-34.5, 2.5) centre (-34.5, 0) ccw
  line L4 (-34.5, -2.5) -> (-36.9154, -2.5)
  arc A4 (-36.9154, -2.5) -> (-36.1248, -8) centre (0, 0) ccw
  line L5 (-36.1248, -8) -> (36.1248, -8)
  arc A5 (36.1248, -8) -> (36.9154, -2.5) centre (0, 0) ccw
  line L6 (0, 0) -> (0, -19) construction
  line L7 (0, 0) -> (19.3, 0)
  line L8 (15.8, 2.5) -> (15.8, -2.5)
  arc A6 (15.8, -2.5) -> (22.8, -2.5) centre (19.3, -2.5) ccw
  line L9 (22.8, -2.5) -> (22.8, 2.5)
  arc A7 (22.8, 2.5) -> (15.8, 2.5) centre (19.3, 2.5) ccw
  line L10 (19.3, 2.5) -> (19.3, -2.5) construction
  line L11 (-15.8, 2.5) -> (-15.8, -2.5)
  arc A8 (-15.8, 2.5) -> (-22.8, 2.5) centre (-19.3, 2.5) ccw
  line L12 (-22.8, -2.5) -> (-22.8, 2.5)
  arc A9 (-22.8, -2.5) -> (-15.8, -2.5) centre (-19.3, -2.5) ccw
  circle A10 centre (10.8, 0) radius 1.5 construction
  circle A11 centre (27.8, 0) radius 1.5 construction
  line L13 (9.3, 2.5) -> (9.3, -2.5)
  arc A12 (9.3, -2.5) -> (12.3, -2.5) centre (10.8, -2.5) ccw
  line L14 (12.3, -2.5) -> (12.3, 2.5)
  arc A13 (12.3, 2.5) -> (9.3, 2.5) centre (10.8, 2.5) ccw
  line L15 (10.8, 2.5) -> (10.8, -2.5) construction
  line L16 (26.3, -2.5) -> (26.3, 2.5)
  arc A14 (26.3, -2.5) -> (29.3, -2.5) centre (27.8, -2.5) ccw
  line L17 (29.3, 2.5) -> (29.3, -2.5)
  arc A15 (29.3, 2.5) -> (26.3, 2.5) centre (27.8, 2.5) ccw
  line L18 (-12.3, -2.5) -> (-12.3, 2.5)
  arc A16 (-12.3, -2.5) -> (-9.3, -2.5) centre (-10.8, -2.5) ccw
  line L19 (-9.3, 2.5) -> (-9.3, -2.5)
  arc A17 (-9.3, 2.5) -> (-12.3, 2.5) centre (-10.8, 2.5) ccw
  line L20 (-26.3, -2.5) -> (-26.3, 2.5)
  arc A18 (-29.3, -2.5) -> (-26.3, -2.5) centre (-27.8, -2.5) ccw
  line L21 (-29.3, 2.5) -> (-29.3, -2.5)
  arc A19 (-26.3, 2.5) -> (-29.3, 2.5) centre (-27.8, 2.5) ccw
  point P0 (19.3, 0)
  point P1 (10.8, 0)
  dimension "d199" = 3.5
  dimension "d200" = 5
  dimension "d201" = 19.3
  dimension "d206" = 3
  dimension "d207" = 8.5
  dimension "d228" = 2.5
  dimension "d229" = 1.5
extrude "Extrusão29" cut sketch "Esboço23" against normal blind 10 contours L7 L13 L14 A13 | L8 A6 L9 A7 | L7 L13 A12 L14 | L11 A8 L12 A9 | L16 A14 L17 A15 | L20 A18 L21 A19
ref_plane "Plano de trabalho12" through (0, 0, 106.3) normal (0, 0, 1) x (1, 0, 0)
sketch "Esboço24" plane through (0, 0, 106.3) normal (0, 0, 1) x (1, 0, 0)
  line L0 (0, 0) -> (28.1868, 0) construction
  line L1 (16, 0) -> (16, 33.3617)
  circle A0 centre (0, 0) radius 37
  line L2 (16, 0) -> (16, -33.3617)
  line L3 (0, 0) -> (0, 19.3) construction
  line L4 (-16, 0) -> (-16, 33.3617)
  line L5 (-16, 0) -> (-16, -33.3617)
  line L6 (-2, 6.8) -> (2, 6.8)
  arc A1 (2, 6.8) -> (2, 31.8) centre (2, 19.3) ccw
  line L7 (2, 31.8) -> (-2, 31.8)
  arc A2 (-2, 31.8) -> (-2, 6.8) centre (-2, 19.3) ccw
  line L8 (-2, 19.3) -> (2, 19.3) construction
  arc A3 (2, -31.8) -> (2, -6.8) centre (2, -19.3) ccw
  arc A4 (-2, -6.8) -> (-2, -31.8) centre (-2, -19.3) ccw
  line L9 (-2, -6.8) -> (2, -6.8)
  line L10 (2, -31.8) -> (-2, -31.8)
  circle A5 centre (0, 34.5) radius 1.5
  circle A6 centre (0, -34.5) radius 1.5
  point P0 (0, 19.3)
  dimension "d209" = 16
  dimension "d210" = 12.5
  dimension "d211" = 4
  dimension "d212" = 19.3
  dimension "d215" = 3
  dimension "d216" = 34.5
ref_plane "Plano de trabalho13" through (0, 0, 55.7) normal (0, 0, -1) x (-1, 0, 0)
ref_plane "Plano de trabalho14" through (0, 0, 60) normal (0, 0, 1) x (1, 0, 0)
sketch "Esboço25" plane through (0, 0, 55.7) normal (0, 0, -1) x (1, 0, 0)
  line L0 (-33.3617, 16) -> (33.3617, 16)
  circle A0 centre (0, 0) radius 37
  line L1 (0, 0) -> (-19.3, 0) construction
  line L2 (-33.3617, -16) -> (33.3617, -16)
  line L3 (-6.8, -2) -> (-6.8, 2)
  arc A1 (-6.8, 2) -> (-31.8, 2) centre (-19.3, 2) ccw
  line L4 (-31.8, 2) -> (-31.8, -2)
  arc A2 (-31.8, -2) -> (-6.8, -2) centre (-19.3, -2) ccw
  line L5 (-19.3, -2) -> (-19.3, 2) construction
  circle A3 centre (-34.5, 0) radius 1.5
  line L6 (0, 0) -> (0, -12) construction
  arc A4 (31.8, 2) -> (6.8, 2) centre (19.3, 2) ccw
  line L7 (6.8, -2) -> (6.8, 2)
  arc A5 (6.8, -2) -> (31.8, -2) centre (19.3, -2) ccw
  circle A6 centre (34.5, 0) radius 1.5
  line L8 (31.8, 2) -> (31.8, -2)
  point P0 (-19.3, 0)
  dimension "d219" = 16
  dimension "d220" = 12.5
  dimension "d221" = 4
  dimension "d222" = 19.3
  dimension "d224" = 34.5
  dimension "d225" = 3
ref_plane "Plano de trabalho15" through (0, 0, 57) normal (0, 0, 1) x (1, 0, 0)
ref_plane "Plano de trabalho16" through (0, 0, 62) normal (0, 0, 1) x (1, 0, 0)
sketch "Esboço26" plane through (0, 0, 57) normal (0, 0, 1) x (1, 0, 0)
  circle A0 centre (0, 0) radius 46.0977
extrude "Extrusão32" cut sketch "Esboço26" against normal blind 100
sketch "Esboço28" plane through (0, 0, 62) normal (0, 0, 1) x (1, 0, 0)
  circle A0 centre (0, 0) radius 43.0116
extrude "Extrusão33" cut sketch "Esboço28" along normal blind 200
